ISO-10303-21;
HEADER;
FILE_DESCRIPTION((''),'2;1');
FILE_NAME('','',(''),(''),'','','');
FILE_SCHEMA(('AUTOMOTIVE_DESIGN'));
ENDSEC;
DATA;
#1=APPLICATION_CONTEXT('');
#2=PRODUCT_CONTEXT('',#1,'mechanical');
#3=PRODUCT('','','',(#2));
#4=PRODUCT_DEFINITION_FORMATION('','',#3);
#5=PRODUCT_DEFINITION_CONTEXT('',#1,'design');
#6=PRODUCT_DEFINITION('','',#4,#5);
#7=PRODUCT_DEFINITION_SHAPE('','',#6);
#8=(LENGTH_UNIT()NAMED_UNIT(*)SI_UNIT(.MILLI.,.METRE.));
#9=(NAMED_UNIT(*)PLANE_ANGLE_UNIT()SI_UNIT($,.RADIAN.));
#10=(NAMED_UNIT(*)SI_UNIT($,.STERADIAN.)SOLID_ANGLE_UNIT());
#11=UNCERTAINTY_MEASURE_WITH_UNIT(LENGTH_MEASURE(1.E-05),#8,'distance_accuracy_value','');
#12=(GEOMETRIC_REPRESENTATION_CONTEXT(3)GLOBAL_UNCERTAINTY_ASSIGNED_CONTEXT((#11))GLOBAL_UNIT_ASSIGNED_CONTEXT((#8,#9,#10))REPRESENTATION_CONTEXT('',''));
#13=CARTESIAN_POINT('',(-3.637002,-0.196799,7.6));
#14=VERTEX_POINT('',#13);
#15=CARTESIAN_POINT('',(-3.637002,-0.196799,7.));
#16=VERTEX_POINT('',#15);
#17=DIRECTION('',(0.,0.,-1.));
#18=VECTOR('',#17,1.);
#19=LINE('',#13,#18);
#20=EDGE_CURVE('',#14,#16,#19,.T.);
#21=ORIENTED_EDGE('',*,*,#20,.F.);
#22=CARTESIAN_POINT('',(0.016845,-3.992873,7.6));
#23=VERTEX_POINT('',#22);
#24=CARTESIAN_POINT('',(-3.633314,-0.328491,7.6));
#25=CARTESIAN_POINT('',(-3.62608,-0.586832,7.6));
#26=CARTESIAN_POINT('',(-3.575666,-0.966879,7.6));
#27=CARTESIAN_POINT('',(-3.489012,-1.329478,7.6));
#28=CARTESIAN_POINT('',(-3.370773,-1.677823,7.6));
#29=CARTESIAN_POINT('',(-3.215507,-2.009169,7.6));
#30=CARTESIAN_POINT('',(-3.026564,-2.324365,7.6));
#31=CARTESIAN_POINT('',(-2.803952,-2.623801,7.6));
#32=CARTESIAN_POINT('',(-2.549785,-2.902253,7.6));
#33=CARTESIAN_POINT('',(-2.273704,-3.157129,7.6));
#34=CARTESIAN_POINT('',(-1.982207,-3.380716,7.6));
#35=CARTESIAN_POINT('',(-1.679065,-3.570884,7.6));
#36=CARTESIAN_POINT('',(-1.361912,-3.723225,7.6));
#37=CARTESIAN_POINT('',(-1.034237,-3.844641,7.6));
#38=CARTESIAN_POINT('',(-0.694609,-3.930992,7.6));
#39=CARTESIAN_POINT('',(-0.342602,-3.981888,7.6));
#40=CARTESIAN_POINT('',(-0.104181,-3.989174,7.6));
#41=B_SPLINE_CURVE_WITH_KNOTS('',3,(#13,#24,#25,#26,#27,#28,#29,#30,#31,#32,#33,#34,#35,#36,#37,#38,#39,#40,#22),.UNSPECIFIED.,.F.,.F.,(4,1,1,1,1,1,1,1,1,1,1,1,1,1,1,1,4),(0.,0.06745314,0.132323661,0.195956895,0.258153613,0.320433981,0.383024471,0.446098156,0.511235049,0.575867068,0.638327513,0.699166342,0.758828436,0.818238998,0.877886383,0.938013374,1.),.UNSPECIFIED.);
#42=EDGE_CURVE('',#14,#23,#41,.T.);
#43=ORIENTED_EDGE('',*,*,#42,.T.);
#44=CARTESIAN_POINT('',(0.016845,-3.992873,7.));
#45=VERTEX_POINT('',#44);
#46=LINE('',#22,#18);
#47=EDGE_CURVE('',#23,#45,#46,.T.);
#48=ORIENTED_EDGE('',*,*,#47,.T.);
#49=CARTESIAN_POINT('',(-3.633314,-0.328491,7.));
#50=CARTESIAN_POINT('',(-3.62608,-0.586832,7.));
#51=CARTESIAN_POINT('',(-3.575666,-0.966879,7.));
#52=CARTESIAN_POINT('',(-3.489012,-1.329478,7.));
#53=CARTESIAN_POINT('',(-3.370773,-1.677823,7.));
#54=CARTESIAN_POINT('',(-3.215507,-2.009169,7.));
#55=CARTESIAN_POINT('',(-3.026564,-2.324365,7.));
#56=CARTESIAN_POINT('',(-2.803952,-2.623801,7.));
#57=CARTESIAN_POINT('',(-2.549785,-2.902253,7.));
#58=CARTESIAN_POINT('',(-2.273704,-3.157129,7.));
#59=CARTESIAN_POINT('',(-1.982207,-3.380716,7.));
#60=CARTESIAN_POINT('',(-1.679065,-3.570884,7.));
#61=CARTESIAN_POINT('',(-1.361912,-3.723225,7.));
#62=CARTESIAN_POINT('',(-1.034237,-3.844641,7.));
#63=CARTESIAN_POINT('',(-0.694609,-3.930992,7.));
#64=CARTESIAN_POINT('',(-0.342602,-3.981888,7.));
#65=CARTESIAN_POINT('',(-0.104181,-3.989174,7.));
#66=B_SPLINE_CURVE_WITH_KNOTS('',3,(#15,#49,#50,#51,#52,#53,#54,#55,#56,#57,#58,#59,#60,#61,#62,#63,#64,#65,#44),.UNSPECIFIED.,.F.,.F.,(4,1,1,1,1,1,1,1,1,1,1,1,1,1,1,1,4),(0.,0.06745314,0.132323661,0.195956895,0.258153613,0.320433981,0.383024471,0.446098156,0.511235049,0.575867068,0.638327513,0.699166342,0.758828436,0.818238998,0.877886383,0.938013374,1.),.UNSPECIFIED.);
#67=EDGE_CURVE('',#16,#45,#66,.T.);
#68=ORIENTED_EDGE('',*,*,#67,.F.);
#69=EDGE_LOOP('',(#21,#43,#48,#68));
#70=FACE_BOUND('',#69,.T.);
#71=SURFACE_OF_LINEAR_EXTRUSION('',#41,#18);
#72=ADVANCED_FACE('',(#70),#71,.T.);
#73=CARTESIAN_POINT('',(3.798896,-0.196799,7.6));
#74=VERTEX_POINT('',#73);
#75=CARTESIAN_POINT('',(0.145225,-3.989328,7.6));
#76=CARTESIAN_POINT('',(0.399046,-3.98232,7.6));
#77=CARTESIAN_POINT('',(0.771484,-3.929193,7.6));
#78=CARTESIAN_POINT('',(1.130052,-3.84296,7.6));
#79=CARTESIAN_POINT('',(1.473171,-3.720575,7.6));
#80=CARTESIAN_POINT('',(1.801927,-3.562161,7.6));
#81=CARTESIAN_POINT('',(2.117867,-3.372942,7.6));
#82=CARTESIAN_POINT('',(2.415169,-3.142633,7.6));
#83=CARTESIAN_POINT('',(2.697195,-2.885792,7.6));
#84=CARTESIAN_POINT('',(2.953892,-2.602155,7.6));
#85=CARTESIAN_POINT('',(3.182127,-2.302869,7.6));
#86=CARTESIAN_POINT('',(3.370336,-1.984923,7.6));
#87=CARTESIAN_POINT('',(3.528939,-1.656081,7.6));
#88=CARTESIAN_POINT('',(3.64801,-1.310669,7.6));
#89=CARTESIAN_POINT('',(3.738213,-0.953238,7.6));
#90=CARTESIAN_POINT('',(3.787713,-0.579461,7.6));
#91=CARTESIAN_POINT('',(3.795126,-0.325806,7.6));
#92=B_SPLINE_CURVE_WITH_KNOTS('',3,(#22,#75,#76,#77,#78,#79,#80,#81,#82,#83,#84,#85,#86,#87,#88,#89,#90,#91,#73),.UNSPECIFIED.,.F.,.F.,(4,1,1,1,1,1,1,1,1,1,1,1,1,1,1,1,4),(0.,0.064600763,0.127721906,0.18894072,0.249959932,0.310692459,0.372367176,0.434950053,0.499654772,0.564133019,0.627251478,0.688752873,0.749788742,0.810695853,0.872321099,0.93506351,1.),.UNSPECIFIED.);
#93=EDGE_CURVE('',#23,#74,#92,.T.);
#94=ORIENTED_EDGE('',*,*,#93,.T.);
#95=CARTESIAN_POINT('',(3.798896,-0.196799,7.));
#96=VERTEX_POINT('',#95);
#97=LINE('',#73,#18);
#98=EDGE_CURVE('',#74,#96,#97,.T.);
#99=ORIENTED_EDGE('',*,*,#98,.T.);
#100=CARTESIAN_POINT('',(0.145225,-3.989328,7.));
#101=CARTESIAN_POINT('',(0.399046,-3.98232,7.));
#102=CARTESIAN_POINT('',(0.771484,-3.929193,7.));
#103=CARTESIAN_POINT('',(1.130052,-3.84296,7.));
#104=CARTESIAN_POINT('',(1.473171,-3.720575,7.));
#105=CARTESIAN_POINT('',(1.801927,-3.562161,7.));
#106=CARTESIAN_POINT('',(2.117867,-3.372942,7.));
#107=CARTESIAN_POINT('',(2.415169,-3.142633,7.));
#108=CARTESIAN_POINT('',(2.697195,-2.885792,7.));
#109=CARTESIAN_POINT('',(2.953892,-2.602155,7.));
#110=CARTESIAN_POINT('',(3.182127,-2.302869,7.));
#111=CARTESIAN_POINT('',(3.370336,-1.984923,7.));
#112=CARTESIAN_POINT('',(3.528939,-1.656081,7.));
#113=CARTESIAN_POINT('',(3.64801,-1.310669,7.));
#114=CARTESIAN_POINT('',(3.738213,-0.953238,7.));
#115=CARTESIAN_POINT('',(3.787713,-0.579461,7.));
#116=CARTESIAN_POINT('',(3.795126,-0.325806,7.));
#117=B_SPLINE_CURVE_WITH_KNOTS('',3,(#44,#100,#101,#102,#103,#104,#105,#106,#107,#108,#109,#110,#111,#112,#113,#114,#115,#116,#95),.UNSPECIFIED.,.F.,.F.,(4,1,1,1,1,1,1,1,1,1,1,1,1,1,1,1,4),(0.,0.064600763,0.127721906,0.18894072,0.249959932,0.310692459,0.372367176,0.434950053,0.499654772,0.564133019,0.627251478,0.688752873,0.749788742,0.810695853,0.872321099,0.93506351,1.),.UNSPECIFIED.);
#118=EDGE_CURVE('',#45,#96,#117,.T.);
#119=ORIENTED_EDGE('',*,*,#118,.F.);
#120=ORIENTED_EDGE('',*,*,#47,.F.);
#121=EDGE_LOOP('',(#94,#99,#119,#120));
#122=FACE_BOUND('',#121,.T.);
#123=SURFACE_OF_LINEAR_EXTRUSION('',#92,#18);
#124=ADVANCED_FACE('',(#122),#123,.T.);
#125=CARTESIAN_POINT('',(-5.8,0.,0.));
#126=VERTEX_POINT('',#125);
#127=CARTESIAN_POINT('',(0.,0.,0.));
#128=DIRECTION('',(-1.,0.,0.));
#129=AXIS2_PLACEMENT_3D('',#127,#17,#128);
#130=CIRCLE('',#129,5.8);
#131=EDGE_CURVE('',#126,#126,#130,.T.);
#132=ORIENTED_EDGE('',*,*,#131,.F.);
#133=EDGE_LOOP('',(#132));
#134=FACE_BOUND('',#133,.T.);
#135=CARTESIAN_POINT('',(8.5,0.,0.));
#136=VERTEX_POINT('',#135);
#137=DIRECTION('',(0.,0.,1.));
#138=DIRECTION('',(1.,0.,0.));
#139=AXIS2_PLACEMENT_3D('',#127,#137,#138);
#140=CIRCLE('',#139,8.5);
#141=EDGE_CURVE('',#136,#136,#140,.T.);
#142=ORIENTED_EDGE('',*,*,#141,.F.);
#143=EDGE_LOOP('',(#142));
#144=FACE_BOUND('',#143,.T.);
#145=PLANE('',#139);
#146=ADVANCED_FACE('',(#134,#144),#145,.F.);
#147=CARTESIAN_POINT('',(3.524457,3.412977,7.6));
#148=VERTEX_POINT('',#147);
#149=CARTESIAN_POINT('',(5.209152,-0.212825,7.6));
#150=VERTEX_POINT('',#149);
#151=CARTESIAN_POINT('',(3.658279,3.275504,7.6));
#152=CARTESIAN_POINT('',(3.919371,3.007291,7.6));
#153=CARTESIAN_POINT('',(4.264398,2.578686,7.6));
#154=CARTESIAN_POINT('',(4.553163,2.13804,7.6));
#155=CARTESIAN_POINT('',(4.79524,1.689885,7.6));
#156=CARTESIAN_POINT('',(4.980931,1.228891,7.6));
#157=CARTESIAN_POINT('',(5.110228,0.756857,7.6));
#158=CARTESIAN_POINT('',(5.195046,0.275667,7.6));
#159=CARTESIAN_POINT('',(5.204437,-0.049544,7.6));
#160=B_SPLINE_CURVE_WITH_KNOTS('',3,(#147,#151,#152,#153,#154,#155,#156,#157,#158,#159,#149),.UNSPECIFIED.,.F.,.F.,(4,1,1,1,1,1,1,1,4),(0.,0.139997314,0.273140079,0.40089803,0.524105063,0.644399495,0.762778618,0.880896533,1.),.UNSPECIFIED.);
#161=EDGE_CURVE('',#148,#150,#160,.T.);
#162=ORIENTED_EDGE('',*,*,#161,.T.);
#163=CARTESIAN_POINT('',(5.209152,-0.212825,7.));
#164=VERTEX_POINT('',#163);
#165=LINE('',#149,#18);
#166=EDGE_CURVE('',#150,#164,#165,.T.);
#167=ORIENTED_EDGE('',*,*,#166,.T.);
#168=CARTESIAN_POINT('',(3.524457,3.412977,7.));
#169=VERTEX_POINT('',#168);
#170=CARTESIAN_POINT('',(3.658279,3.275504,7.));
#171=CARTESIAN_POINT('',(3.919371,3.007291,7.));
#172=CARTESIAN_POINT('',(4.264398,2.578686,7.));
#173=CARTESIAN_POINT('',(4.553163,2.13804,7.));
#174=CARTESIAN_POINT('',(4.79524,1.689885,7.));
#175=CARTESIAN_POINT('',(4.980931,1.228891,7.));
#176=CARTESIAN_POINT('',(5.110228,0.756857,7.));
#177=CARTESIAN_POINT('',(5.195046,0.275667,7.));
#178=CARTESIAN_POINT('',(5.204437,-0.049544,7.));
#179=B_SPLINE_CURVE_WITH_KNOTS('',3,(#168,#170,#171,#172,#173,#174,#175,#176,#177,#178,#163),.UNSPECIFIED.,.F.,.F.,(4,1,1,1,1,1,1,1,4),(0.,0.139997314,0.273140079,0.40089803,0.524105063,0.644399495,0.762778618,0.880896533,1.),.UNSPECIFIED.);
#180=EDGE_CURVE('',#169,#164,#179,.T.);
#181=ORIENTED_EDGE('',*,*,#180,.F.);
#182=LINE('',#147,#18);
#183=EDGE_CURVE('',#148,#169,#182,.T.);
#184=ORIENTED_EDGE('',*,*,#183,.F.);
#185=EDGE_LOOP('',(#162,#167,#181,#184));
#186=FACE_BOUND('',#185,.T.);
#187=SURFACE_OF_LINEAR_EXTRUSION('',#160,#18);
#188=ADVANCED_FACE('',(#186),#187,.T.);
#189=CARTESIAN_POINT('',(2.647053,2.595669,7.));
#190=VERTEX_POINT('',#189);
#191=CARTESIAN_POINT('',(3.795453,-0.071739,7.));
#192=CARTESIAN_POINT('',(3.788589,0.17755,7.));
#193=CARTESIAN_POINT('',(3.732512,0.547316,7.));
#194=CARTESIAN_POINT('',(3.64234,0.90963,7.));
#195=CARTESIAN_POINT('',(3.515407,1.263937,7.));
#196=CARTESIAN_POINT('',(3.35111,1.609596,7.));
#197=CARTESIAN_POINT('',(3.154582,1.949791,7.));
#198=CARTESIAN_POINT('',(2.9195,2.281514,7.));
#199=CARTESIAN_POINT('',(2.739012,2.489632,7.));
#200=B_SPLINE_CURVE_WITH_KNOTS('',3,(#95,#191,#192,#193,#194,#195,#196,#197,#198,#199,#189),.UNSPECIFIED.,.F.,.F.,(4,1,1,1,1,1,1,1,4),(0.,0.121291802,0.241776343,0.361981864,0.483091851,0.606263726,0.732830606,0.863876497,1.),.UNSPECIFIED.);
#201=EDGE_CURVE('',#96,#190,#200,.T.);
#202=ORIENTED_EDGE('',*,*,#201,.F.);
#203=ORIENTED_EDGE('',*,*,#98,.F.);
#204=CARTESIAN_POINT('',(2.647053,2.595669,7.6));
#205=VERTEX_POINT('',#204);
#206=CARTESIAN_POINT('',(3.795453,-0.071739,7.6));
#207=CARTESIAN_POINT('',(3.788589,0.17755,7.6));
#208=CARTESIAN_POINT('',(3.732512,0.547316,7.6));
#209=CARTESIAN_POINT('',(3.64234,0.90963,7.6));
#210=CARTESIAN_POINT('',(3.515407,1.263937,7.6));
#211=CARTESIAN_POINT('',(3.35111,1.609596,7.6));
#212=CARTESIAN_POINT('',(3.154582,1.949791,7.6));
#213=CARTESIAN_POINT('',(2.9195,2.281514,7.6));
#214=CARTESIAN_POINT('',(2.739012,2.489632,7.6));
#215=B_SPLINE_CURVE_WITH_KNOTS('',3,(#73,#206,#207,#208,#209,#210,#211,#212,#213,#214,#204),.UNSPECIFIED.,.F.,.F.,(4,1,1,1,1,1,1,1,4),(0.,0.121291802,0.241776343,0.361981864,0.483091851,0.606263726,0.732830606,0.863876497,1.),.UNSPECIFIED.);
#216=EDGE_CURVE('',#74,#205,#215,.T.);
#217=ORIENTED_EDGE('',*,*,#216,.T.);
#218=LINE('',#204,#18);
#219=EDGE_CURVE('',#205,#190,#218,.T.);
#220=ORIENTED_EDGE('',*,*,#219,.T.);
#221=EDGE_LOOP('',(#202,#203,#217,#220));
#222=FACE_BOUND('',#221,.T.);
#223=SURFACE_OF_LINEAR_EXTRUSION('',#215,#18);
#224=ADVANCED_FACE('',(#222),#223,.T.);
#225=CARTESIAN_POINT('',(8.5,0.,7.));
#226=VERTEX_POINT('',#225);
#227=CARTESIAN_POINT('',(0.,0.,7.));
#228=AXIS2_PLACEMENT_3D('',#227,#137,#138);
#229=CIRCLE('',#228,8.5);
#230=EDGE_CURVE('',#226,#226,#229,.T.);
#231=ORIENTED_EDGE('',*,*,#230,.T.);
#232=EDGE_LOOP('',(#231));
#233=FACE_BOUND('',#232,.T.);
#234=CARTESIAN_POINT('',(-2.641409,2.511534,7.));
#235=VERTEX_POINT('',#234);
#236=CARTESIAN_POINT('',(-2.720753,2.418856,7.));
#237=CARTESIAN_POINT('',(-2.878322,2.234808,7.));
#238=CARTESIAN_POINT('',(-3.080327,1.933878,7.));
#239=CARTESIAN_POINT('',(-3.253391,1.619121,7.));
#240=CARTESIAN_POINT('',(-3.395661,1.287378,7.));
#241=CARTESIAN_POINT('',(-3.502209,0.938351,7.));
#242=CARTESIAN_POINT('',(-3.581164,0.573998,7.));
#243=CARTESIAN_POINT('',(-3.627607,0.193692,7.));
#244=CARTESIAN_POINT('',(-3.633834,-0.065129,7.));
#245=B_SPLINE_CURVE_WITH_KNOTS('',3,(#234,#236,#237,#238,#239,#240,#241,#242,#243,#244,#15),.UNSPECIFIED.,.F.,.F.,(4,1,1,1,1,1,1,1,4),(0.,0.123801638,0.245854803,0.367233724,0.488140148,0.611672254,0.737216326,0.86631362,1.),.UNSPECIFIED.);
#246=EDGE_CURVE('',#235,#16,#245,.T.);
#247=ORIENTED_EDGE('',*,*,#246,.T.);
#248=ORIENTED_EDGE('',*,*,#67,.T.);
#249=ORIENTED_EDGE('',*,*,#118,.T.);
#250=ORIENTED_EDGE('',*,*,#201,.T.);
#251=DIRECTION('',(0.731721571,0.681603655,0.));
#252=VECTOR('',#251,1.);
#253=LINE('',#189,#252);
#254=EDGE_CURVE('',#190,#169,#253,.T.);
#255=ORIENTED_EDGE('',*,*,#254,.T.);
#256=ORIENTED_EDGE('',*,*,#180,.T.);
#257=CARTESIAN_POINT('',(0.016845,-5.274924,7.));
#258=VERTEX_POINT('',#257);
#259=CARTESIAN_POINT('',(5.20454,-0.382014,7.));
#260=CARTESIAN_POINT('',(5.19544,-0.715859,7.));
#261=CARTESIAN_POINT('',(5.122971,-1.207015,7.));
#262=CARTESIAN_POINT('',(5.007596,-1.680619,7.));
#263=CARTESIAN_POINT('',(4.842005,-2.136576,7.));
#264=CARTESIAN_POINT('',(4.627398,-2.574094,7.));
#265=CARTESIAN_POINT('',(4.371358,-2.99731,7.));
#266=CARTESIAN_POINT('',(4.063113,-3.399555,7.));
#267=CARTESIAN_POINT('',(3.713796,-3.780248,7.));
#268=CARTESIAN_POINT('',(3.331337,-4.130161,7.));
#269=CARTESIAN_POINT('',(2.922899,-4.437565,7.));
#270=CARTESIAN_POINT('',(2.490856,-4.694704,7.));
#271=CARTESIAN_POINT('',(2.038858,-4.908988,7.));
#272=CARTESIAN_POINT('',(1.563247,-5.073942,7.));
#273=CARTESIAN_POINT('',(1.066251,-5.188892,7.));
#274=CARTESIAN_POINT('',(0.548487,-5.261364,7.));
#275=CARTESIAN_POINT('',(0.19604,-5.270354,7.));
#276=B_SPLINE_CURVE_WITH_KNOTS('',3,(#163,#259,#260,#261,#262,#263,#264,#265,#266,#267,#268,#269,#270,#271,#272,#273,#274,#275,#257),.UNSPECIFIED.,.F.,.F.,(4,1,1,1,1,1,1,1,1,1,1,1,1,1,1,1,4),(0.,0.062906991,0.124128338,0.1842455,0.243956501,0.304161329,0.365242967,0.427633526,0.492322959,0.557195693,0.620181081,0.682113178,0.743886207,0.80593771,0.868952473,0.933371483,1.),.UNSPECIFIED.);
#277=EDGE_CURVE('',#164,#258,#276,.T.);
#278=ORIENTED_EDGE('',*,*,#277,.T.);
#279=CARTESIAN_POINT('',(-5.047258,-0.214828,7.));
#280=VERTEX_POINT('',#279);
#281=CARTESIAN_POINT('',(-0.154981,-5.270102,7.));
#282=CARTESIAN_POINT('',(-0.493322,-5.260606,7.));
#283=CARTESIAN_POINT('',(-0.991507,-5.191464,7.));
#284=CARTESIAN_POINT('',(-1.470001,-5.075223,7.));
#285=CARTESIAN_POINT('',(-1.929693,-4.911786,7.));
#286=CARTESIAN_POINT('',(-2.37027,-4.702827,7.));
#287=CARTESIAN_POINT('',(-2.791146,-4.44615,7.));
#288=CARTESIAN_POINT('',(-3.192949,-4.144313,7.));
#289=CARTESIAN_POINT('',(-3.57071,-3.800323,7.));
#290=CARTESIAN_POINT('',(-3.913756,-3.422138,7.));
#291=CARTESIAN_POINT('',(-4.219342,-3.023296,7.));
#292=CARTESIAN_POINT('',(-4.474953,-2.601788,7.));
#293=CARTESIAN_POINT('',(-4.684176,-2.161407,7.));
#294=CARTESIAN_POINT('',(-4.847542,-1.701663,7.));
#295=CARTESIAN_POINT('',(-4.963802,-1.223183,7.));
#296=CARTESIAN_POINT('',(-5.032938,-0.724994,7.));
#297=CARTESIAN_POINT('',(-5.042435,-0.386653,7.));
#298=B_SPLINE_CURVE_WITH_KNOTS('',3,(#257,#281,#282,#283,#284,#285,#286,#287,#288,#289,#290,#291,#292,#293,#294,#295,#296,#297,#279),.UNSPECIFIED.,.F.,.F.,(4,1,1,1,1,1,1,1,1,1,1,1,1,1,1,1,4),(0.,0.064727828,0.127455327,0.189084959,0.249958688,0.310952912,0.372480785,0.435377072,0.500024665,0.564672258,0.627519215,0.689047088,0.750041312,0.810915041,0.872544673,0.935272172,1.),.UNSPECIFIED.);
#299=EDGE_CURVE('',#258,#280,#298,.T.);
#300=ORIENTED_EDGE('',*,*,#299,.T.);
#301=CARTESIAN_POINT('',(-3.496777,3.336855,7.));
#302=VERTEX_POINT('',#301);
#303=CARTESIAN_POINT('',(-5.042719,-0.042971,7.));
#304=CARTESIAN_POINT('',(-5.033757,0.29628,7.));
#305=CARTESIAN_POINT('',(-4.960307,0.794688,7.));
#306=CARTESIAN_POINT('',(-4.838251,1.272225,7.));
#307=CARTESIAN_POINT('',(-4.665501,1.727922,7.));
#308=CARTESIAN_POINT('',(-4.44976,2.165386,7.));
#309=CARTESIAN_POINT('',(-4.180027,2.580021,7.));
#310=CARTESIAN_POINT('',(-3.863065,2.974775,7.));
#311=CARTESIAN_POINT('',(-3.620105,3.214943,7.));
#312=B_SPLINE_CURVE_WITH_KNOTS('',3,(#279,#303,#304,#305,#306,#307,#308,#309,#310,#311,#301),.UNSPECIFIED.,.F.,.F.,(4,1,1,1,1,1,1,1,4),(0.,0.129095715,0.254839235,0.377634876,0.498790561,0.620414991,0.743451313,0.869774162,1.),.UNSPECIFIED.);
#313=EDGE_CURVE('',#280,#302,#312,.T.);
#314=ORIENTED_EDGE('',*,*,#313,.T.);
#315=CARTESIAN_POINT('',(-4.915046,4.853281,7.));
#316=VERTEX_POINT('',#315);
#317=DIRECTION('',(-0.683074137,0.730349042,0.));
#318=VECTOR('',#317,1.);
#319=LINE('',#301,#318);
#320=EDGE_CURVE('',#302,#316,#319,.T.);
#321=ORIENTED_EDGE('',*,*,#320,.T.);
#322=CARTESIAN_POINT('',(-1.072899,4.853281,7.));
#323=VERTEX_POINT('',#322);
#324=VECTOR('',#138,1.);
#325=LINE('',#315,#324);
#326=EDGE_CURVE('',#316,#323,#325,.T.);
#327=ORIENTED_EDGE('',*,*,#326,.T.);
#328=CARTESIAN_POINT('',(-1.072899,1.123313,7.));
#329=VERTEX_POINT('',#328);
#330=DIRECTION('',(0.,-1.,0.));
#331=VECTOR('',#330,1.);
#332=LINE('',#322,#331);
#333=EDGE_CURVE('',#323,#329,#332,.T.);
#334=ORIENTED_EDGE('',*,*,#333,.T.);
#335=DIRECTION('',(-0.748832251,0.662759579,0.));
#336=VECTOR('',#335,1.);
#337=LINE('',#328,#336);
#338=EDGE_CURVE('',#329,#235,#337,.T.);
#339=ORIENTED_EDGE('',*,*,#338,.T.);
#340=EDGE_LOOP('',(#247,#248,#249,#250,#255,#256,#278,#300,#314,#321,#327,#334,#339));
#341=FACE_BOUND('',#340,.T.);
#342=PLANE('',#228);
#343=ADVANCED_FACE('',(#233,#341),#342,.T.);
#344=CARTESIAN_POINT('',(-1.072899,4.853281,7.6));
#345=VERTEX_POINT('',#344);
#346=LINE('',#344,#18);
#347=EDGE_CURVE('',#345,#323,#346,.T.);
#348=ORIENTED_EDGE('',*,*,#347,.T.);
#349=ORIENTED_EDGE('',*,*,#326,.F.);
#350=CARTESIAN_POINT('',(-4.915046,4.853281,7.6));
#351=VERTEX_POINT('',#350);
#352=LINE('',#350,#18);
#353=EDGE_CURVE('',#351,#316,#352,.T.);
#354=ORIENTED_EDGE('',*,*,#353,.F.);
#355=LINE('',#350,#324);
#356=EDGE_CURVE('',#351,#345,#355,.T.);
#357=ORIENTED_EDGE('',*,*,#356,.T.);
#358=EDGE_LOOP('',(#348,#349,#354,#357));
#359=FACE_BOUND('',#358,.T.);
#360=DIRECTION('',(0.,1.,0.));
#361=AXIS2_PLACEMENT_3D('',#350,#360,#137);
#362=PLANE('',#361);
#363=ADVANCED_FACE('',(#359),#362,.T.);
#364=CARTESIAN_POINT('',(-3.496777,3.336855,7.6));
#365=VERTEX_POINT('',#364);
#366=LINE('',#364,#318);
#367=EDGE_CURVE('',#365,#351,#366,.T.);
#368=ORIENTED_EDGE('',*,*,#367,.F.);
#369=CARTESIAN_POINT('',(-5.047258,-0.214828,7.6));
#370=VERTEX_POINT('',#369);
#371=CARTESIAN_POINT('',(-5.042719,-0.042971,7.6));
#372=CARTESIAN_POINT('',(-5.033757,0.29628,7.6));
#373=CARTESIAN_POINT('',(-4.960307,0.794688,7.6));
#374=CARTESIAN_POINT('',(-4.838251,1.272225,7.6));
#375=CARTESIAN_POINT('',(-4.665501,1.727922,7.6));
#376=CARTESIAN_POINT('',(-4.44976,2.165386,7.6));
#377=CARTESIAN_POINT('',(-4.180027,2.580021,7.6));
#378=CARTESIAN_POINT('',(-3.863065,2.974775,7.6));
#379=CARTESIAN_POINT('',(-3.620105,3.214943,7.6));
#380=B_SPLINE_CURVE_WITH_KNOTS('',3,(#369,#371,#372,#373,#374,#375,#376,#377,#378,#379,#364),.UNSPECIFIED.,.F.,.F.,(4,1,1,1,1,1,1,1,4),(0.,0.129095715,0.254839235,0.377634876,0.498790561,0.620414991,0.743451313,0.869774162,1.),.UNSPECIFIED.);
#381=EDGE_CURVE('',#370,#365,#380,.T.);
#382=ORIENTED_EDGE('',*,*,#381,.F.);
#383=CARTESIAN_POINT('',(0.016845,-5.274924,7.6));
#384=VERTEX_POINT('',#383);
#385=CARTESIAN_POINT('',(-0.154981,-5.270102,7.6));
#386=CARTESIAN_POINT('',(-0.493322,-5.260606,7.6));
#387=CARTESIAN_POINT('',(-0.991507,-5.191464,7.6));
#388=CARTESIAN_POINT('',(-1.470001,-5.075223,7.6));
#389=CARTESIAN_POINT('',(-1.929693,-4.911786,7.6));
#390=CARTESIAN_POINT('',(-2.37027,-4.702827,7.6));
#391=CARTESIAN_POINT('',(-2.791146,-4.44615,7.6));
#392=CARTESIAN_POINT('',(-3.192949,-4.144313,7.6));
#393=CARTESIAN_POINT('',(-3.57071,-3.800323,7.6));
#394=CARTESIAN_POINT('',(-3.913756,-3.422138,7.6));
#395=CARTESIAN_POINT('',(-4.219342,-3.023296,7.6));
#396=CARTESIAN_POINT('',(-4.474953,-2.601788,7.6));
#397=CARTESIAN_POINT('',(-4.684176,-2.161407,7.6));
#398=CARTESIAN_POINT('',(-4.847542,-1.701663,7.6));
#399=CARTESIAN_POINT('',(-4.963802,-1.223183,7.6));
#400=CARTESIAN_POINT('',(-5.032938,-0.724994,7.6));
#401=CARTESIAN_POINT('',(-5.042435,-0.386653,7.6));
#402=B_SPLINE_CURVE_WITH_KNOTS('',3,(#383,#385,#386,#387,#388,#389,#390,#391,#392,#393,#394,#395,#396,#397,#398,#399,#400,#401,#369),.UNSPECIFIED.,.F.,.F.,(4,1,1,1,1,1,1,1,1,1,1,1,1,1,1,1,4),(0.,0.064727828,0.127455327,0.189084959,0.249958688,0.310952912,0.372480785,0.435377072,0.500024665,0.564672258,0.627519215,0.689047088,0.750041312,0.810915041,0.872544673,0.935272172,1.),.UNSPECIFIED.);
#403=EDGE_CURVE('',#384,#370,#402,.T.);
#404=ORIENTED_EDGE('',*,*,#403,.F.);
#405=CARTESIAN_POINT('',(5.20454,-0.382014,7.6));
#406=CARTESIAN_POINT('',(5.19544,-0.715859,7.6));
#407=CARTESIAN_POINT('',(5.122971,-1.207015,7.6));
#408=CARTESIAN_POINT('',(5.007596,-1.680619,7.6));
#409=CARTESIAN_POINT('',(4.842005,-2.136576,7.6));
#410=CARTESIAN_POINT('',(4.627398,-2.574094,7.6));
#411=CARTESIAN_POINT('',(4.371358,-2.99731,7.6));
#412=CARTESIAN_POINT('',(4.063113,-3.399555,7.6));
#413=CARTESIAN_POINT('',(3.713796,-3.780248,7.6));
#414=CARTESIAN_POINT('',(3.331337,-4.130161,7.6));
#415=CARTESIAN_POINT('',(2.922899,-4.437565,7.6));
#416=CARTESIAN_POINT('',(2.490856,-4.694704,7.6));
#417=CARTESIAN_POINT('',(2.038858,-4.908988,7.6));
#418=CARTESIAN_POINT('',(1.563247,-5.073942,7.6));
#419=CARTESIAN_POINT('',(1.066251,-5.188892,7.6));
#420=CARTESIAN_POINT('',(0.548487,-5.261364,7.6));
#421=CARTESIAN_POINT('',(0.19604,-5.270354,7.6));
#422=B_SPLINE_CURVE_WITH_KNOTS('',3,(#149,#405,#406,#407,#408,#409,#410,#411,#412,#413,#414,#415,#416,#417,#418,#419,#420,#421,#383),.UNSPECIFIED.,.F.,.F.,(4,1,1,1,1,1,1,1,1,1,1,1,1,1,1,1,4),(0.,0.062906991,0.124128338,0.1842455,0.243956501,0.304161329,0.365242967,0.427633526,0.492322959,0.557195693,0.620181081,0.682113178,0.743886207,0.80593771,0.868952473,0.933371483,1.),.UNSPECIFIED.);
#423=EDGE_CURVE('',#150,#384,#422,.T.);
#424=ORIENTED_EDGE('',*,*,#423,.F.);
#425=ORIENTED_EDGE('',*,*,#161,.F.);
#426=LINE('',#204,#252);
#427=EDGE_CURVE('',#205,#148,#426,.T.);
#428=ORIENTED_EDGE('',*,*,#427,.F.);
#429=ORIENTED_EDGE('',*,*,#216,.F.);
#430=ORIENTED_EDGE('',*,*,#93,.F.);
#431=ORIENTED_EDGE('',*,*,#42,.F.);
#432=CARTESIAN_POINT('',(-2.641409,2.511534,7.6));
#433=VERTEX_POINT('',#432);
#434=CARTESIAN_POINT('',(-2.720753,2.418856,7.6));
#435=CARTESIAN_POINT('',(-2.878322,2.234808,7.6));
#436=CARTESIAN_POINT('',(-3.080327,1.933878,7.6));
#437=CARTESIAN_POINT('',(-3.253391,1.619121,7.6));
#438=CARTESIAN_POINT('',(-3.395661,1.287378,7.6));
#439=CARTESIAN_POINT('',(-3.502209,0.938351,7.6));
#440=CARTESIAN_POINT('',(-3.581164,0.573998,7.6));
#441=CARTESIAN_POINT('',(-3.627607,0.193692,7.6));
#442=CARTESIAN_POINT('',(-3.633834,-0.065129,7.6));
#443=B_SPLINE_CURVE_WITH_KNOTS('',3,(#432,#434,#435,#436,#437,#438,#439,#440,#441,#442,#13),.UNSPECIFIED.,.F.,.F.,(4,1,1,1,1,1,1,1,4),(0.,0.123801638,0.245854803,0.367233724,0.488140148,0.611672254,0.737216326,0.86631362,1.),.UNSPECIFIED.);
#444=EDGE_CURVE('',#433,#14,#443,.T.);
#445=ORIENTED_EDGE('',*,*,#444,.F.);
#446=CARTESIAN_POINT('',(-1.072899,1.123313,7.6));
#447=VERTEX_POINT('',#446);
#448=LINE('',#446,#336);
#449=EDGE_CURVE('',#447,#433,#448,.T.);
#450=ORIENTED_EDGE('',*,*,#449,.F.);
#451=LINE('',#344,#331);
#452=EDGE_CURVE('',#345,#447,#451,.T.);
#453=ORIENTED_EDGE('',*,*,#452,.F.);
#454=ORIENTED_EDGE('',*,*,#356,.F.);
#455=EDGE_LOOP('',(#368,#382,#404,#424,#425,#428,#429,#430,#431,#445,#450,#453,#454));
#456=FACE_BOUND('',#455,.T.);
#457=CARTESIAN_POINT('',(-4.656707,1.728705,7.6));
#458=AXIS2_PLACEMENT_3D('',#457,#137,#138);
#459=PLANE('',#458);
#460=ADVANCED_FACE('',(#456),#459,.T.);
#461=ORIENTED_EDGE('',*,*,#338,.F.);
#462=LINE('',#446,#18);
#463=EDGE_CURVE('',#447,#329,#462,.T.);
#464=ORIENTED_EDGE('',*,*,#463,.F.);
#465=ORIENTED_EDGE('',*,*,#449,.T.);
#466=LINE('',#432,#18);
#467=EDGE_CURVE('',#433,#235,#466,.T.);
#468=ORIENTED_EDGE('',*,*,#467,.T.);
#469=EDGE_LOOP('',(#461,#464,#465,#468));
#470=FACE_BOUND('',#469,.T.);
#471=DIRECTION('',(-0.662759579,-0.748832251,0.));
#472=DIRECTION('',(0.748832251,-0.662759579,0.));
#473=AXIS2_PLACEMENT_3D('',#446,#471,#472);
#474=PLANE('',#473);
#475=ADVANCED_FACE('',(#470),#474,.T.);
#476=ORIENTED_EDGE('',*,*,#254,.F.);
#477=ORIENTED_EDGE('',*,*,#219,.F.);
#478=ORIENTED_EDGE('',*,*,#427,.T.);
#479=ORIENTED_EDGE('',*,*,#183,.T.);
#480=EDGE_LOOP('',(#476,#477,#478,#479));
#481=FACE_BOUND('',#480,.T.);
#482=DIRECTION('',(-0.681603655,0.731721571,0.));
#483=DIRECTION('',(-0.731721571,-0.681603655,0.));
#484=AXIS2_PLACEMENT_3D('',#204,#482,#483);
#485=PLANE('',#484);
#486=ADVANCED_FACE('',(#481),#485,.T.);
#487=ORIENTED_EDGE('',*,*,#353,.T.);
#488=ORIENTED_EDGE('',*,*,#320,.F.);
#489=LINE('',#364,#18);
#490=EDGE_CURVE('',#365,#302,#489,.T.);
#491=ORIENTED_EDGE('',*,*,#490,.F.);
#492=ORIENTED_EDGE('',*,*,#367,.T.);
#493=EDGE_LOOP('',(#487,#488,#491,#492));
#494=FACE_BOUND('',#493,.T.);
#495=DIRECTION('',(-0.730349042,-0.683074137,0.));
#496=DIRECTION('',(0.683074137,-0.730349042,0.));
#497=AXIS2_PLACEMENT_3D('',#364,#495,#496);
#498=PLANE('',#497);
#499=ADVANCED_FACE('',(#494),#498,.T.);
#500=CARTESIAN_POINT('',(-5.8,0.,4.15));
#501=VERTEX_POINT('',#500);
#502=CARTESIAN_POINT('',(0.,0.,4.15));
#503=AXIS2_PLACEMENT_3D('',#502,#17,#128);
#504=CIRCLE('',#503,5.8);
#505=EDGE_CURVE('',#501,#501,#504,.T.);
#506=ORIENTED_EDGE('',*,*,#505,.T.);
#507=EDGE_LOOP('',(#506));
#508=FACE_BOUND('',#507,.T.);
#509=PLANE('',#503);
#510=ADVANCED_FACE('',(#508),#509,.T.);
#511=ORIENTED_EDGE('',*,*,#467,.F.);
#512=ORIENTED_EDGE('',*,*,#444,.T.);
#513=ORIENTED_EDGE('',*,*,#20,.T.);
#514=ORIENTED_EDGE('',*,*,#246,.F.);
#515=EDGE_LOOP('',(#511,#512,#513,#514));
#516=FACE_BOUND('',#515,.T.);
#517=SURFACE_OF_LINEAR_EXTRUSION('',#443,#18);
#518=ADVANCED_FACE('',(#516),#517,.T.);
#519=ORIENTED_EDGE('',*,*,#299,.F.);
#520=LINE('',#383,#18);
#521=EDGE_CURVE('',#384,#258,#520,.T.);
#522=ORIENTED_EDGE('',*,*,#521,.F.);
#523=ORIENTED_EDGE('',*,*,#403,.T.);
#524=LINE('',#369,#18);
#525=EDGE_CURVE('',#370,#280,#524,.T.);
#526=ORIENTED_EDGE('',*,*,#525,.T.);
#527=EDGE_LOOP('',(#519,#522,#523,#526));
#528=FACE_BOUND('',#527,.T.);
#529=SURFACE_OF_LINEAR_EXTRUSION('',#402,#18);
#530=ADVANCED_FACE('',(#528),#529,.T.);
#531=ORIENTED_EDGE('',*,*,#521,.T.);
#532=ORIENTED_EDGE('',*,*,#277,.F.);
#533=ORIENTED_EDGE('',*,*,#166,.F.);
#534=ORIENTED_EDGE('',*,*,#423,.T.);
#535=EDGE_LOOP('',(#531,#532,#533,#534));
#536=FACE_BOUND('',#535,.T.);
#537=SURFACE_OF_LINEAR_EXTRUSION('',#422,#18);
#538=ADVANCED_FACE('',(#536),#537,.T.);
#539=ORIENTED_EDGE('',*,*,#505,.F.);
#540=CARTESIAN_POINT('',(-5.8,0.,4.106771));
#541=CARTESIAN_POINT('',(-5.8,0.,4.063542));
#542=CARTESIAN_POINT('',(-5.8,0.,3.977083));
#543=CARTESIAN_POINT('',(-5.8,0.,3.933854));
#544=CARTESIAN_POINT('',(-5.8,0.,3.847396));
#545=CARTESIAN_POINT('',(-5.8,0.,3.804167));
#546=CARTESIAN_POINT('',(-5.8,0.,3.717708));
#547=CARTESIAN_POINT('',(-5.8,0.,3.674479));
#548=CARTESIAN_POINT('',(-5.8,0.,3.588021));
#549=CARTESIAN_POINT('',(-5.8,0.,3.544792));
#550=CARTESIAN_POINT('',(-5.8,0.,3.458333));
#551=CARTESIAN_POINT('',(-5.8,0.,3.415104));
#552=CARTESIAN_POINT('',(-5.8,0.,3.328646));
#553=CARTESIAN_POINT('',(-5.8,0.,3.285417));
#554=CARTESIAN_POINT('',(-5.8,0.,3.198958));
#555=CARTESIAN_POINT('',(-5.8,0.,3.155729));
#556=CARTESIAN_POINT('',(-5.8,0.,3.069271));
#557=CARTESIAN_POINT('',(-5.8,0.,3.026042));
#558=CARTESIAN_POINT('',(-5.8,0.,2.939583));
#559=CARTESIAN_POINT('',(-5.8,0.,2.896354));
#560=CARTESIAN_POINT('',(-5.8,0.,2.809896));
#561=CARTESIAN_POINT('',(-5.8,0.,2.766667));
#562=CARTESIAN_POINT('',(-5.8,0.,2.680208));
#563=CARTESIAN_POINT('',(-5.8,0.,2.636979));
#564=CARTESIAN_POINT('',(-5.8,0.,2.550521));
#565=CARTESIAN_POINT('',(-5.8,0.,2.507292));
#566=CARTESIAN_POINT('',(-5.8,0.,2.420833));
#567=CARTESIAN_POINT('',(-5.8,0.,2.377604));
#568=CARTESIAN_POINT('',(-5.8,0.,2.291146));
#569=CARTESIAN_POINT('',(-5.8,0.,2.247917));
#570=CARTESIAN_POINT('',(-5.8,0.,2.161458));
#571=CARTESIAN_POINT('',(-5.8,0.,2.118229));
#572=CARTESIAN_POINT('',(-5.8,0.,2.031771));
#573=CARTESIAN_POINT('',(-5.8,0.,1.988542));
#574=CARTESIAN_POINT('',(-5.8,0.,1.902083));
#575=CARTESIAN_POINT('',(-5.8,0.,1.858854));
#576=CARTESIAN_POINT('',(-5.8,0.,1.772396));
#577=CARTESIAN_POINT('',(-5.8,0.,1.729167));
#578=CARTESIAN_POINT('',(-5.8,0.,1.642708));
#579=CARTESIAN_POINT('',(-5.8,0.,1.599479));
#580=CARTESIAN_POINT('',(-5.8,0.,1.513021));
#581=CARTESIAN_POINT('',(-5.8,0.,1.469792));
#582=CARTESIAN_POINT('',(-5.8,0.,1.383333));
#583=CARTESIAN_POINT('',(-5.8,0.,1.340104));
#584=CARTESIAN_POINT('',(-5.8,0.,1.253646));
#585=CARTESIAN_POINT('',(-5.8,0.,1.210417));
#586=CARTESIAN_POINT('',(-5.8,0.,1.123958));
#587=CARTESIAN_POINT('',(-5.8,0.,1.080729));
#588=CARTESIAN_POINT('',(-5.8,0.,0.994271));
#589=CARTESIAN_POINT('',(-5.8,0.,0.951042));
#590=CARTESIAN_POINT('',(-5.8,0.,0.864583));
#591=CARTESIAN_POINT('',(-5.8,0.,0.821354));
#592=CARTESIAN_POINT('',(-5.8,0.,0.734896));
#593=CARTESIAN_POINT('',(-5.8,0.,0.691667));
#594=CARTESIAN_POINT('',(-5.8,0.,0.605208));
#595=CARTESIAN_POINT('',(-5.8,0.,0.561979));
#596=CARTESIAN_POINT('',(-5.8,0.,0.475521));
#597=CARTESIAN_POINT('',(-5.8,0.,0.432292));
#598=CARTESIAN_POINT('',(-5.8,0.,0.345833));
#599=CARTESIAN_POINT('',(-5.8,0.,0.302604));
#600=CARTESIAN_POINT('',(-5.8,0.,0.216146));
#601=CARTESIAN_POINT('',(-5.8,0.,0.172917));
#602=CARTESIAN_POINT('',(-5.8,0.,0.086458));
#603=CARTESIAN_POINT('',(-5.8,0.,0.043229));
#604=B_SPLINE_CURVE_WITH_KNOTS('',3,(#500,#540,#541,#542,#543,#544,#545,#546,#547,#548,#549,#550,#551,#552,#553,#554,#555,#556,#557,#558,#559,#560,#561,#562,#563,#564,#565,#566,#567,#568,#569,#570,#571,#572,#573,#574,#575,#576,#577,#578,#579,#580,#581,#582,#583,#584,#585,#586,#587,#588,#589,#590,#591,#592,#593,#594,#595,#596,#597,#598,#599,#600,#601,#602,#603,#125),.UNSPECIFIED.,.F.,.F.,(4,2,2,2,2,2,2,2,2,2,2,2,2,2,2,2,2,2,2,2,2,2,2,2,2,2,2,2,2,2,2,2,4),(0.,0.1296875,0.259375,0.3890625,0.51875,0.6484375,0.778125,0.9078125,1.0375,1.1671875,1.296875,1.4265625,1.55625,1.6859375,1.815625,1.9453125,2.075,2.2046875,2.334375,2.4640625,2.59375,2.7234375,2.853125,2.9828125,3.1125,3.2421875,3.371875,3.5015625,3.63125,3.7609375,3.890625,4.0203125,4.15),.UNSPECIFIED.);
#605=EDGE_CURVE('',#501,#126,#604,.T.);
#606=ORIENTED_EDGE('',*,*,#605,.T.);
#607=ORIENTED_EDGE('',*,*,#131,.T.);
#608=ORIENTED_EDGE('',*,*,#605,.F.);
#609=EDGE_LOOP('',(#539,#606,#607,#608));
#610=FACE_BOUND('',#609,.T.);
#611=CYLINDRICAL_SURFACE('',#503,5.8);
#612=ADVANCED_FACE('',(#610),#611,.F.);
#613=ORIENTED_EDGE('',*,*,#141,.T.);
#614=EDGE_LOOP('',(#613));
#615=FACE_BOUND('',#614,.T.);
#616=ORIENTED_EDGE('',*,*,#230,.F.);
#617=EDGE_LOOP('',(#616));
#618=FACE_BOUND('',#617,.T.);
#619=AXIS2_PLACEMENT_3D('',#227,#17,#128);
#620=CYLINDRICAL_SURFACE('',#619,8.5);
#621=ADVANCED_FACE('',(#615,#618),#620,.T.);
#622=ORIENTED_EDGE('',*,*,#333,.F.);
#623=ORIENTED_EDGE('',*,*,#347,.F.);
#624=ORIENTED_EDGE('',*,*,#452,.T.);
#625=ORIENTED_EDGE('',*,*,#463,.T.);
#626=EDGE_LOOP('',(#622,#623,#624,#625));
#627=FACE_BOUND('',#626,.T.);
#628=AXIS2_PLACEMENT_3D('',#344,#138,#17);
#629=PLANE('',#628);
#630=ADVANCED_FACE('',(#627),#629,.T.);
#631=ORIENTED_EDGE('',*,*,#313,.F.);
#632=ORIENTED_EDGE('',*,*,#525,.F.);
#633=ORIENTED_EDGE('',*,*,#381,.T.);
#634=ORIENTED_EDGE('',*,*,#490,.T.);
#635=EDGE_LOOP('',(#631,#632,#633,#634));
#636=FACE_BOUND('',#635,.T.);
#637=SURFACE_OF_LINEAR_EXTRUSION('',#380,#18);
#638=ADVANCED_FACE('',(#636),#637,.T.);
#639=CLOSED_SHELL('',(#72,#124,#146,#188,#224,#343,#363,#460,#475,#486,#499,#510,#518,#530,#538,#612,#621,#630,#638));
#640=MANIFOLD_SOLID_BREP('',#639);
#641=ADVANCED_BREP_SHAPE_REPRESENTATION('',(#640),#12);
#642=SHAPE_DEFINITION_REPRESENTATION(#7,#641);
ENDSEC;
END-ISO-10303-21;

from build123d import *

# Parameters (mm, degrees)
SKETCH1_R           = 8.5
BOSS_EXTRUDE1_DEPTH = 7
BOSS_EXTRUDE2_DEPTH = 0.6
SKETCH3_R           = 5.8
CUT_EXTRUDE1_DEPTH  = 4.15


with BuildPart() as part:
    # Sketch1 → Boss-Extrude1 (new body)
    with BuildSketch(Plane.XY):
        Circle(SKETCH1_R)
    extrude(amount=BOSS_EXTRUDE1_DEPTH)

    # Sketch2 → Boss-Extrude2 (add)
    with BuildSketch(Plane.XY.offset(7)):
        with BuildLine():
            Line((-3.496777173, 3.33685478), (-4.915046404, 4.853281062))
            Line((-4.915046404, 4.853281062), (-1.072898968, 4.853281062))
            Line((-1.072898968, 4.853281062), (-1.072898968, 1.123313114))
            Line((-1.072898968, 1.123313114), (-2.641408583, 2.511534267))
            add(Edge.make_bspline(
                [(-2.641408583, 2.511534267), (-2.720753384, 2.418855801), (-2.878322384, 2.234807782), (-3.080326614, 1.933878452), (-3.253390687, 1.61912069), (-3.395661366, 1.287378065), (-3.502208895, 0.938351436), (-3.581164136, 0.573998239), (-3.627606924, 0.193691534), (-3.633833749, -0.065128908), (-3.637001532, -0.196799066)],
                knots=[0, 0, 0, 0, 0.990413106, 1.966838421, 2.937869788, 3.905121185, 4.893378033, 5.897730606, 6.93050896, 8, 8, 8, 8], degree=3))
            add(Edge.make_bspline(
                [(-3.637001532, -0.196799066), (-3.633314081, -0.328490722), (-3.626080362, -0.586831876), (-3.575666424, -0.966879106), (-3.48901189, -1.329477593), (-3.370773292, -1.677822622), (-3.215507272, -2.009168524), (-3.026563561, -2.324364608), (-2.80395201, -2.623800683), (-2.549784804, -2.902253094), (-2.273703911, -3.157129382), (-1.982206578, -3.380716481), (-1.679065211, -3.570884015), (-1.361911881, -3.723224656), (-1.034237343, -3.844640529), (-0.694609323, -3.930992109), (-0.342601775, -3.981888324), (-0.104181125, -3.989174312), (0.016844622, -3.992872784)],
                knots=[0, 0, 0, 0, 1.079250243, 2.117178572, 3.135310327, 4.130457806, 5.126943688, 6.12839153, 7.13757049, 8.179760785, 9.213873081, 10.213240201, 11.186661469, 12.141254978, 13.091823965, 14.04618213, 15.008213981, 16, 16, 16, 16], degree=3))
            add(Edge.make_bspline(
                [(0.016844622, -3.992872784), (0.145225127, -3.989328055), (0.399045702, -3.982319786), (0.771483518, -3.92919274), (1.130051724, -3.842959504), (1.473171339, -3.720575099), (1.801926634, -3.562161434), (2.117866526, -3.372942158), (2.41516878, -3.142633465), (2.697195125, -2.885792453), (2.953892432, -2.602154952), (3.182127427, -2.302868546), (3.370336038, -1.984922834), (3.528939332, -1.656080542), (3.648009639, -1.310669225), (3.73821301, -0.953238154), (3.787712727, -0.57946122), (3.795125716, -0.325806083), (3.798895904, -0.196799066)],
                knots=[0, 0, 0, 0, 1.033612209, 2.043550498, 3.023051526, 3.999358907, 4.971079349, 5.957874823, 6.959200849, 7.994476354, 9.02612831, 10.03602365, 11.020045963, 11.99661988, 12.971133653, 13.957137591, 14.961016167, 16, 16, 16, 16], degree=3))
            add(Edge.make_bspline(
                [(3.798895904, -0.196799066), (3.795452622, -0.071738589), (3.788588973, 0.177550022), (3.732512198, 0.547316376), (3.642339714, 0.909630301), (3.515407262, 1.263936549), (3.351110497, 1.609595982), (3.154582121, 1.949790991), (2.919499892, 2.281514078), (2.739012005, 2.489632171), (2.647052955, 2.595668883)],
                knots=[0, 0, 0, 0, 0.970334418, 1.934210747, 2.895854909, 3.864734812, 4.850109812, 5.862644845, 6.911011974, 8, 8, 8, 8], degree=3))
            Line((2.647052955, 2.595668883), (3.524456802, 3.412976575))
            add(Edge.make_bspline(
                [(3.524456802, 3.412976575), (3.658278985, 3.275504412), (3.91937115, 3.007290997), (4.264397959, 2.578686277), (4.553163347, 2.138040406), (4.795240196, 1.68988536), (4.980930526, 1.228890741), (5.110227561, 0.756857332), (5.195045563, 0.27566711), (5.204437058, -0.049543732), (5.209152314, -0.212824707)],
                knots=[0, 0, 0, 0, 1.119978514, 2.185120635, 3.207184244, 4.192840501, 5.155195957, 6.102228941, 7.047172264, 8, 8, 8, 8], degree=3))
            add(Edge.make_bspline(
                [(5.209152314, -0.212824707), (5.204540212, -0.382014013), (5.195439592, -0.715859062), (5.12297081, -1.207015128), (5.007595574, -1.680619371), (4.842005, -2.136576039), (4.627397829, -2.574094346), (4.371358267, -2.997310094), (4.06311267, -3.39955484), (3.713795898, -3.780248165), (3.331337364, -4.130160805), (2.922899491, -4.437565389), (2.490856262, -4.694704345), (2.038857832, -4.9089885), (1.563247201, -5.073941917), (1.066251184, -5.188891521), (0.548487363, -5.261364491), (0.196039665, -5.270353687), (0.016844622, -5.274924066)],
                knots=[0, 0, 0, 0, 1.006511856, 1.986053414, 2.947928005, 3.903304009, 4.866581259, 5.843887477, 6.842136409, 7.877167342, 8.915131082, 9.922897295, 10.913810849, 11.902179308, 12.895003365, 13.90323956, 14.933943735, 16, 16, 16, 16], degree=3))
            add(Edge.make_bspline(
                [(0.016844622, -5.274924066), (-0.154981037, -5.270101549), (-0.493322306, -5.26060555), (-0.991507142, -5.1914642), (-1.470001358, -5.07522348), (-1.929693111, -4.911786456), (-2.370270316, -4.702826529), (-2.791145936, -4.446149677), (-3.192948817, -4.14431338), (-3.57070976, -3.800322782), (-3.913756475, -3.422137917), (-4.219341638, -3.023295532), (-4.474952699, -2.601787942), (-4.684175633, -2.161406889), (-4.847542361, -1.701662708), (-4.963802172, -1.22318273), (-5.032938356, -0.724994042), (-5.042435065, -0.386653302), (-5.047257942, -0.214827912)],
                knots=[0, 0, 0, 0, 1.035645246, 2.039285224, 3.025359342, 3.999339005, 4.975246586, 5.959692554, 6.966033149, 8.00039464, 9.034756131, 10.040307446, 11.024753414, 12.000660995, 12.974640658, 13.960714776, 14.964354754, 16, 16, 16, 16], degree=3))
            add(Edge.make_bspline(
                [(-5.047257942, -0.214827912), (-5.042718501, -0.042971038), (-5.033757492, 0.296280149), (-4.960307444, 0.794688321), (-4.838251028, 1.272224933), (-4.665501402, 1.727921947), (-4.449759875, 2.165386428), (-4.180027486, 2.580020601), (-3.863065273, 2.974774534), (-3.620105292, 3.214943433), (-3.496777173, 3.33685478)],
                knots=[0, 0, 0, 0, 1.032765718, 2.038713884, 3.021079012, 3.990324489, 4.963319928, 5.947610502, 6.958193293, 8, 8, 8, 8], degree=3))
        make_face()
    extrude(amount=BOSS_EXTRUDE2_DEPTH)

    # Sketch3 → Cut-Extrude1 (cut)
    with BuildSketch(Plane(origin=(0, 0, 0), x_dir=(-1, 0, 0), z_dir=(0, 0, -1))):
        Circle(SKETCH3_R)
    extrude(amount=-CUT_EXTRUDE1_DEPTH, mode=Mode.SUBTRACT)


solid = part.part
